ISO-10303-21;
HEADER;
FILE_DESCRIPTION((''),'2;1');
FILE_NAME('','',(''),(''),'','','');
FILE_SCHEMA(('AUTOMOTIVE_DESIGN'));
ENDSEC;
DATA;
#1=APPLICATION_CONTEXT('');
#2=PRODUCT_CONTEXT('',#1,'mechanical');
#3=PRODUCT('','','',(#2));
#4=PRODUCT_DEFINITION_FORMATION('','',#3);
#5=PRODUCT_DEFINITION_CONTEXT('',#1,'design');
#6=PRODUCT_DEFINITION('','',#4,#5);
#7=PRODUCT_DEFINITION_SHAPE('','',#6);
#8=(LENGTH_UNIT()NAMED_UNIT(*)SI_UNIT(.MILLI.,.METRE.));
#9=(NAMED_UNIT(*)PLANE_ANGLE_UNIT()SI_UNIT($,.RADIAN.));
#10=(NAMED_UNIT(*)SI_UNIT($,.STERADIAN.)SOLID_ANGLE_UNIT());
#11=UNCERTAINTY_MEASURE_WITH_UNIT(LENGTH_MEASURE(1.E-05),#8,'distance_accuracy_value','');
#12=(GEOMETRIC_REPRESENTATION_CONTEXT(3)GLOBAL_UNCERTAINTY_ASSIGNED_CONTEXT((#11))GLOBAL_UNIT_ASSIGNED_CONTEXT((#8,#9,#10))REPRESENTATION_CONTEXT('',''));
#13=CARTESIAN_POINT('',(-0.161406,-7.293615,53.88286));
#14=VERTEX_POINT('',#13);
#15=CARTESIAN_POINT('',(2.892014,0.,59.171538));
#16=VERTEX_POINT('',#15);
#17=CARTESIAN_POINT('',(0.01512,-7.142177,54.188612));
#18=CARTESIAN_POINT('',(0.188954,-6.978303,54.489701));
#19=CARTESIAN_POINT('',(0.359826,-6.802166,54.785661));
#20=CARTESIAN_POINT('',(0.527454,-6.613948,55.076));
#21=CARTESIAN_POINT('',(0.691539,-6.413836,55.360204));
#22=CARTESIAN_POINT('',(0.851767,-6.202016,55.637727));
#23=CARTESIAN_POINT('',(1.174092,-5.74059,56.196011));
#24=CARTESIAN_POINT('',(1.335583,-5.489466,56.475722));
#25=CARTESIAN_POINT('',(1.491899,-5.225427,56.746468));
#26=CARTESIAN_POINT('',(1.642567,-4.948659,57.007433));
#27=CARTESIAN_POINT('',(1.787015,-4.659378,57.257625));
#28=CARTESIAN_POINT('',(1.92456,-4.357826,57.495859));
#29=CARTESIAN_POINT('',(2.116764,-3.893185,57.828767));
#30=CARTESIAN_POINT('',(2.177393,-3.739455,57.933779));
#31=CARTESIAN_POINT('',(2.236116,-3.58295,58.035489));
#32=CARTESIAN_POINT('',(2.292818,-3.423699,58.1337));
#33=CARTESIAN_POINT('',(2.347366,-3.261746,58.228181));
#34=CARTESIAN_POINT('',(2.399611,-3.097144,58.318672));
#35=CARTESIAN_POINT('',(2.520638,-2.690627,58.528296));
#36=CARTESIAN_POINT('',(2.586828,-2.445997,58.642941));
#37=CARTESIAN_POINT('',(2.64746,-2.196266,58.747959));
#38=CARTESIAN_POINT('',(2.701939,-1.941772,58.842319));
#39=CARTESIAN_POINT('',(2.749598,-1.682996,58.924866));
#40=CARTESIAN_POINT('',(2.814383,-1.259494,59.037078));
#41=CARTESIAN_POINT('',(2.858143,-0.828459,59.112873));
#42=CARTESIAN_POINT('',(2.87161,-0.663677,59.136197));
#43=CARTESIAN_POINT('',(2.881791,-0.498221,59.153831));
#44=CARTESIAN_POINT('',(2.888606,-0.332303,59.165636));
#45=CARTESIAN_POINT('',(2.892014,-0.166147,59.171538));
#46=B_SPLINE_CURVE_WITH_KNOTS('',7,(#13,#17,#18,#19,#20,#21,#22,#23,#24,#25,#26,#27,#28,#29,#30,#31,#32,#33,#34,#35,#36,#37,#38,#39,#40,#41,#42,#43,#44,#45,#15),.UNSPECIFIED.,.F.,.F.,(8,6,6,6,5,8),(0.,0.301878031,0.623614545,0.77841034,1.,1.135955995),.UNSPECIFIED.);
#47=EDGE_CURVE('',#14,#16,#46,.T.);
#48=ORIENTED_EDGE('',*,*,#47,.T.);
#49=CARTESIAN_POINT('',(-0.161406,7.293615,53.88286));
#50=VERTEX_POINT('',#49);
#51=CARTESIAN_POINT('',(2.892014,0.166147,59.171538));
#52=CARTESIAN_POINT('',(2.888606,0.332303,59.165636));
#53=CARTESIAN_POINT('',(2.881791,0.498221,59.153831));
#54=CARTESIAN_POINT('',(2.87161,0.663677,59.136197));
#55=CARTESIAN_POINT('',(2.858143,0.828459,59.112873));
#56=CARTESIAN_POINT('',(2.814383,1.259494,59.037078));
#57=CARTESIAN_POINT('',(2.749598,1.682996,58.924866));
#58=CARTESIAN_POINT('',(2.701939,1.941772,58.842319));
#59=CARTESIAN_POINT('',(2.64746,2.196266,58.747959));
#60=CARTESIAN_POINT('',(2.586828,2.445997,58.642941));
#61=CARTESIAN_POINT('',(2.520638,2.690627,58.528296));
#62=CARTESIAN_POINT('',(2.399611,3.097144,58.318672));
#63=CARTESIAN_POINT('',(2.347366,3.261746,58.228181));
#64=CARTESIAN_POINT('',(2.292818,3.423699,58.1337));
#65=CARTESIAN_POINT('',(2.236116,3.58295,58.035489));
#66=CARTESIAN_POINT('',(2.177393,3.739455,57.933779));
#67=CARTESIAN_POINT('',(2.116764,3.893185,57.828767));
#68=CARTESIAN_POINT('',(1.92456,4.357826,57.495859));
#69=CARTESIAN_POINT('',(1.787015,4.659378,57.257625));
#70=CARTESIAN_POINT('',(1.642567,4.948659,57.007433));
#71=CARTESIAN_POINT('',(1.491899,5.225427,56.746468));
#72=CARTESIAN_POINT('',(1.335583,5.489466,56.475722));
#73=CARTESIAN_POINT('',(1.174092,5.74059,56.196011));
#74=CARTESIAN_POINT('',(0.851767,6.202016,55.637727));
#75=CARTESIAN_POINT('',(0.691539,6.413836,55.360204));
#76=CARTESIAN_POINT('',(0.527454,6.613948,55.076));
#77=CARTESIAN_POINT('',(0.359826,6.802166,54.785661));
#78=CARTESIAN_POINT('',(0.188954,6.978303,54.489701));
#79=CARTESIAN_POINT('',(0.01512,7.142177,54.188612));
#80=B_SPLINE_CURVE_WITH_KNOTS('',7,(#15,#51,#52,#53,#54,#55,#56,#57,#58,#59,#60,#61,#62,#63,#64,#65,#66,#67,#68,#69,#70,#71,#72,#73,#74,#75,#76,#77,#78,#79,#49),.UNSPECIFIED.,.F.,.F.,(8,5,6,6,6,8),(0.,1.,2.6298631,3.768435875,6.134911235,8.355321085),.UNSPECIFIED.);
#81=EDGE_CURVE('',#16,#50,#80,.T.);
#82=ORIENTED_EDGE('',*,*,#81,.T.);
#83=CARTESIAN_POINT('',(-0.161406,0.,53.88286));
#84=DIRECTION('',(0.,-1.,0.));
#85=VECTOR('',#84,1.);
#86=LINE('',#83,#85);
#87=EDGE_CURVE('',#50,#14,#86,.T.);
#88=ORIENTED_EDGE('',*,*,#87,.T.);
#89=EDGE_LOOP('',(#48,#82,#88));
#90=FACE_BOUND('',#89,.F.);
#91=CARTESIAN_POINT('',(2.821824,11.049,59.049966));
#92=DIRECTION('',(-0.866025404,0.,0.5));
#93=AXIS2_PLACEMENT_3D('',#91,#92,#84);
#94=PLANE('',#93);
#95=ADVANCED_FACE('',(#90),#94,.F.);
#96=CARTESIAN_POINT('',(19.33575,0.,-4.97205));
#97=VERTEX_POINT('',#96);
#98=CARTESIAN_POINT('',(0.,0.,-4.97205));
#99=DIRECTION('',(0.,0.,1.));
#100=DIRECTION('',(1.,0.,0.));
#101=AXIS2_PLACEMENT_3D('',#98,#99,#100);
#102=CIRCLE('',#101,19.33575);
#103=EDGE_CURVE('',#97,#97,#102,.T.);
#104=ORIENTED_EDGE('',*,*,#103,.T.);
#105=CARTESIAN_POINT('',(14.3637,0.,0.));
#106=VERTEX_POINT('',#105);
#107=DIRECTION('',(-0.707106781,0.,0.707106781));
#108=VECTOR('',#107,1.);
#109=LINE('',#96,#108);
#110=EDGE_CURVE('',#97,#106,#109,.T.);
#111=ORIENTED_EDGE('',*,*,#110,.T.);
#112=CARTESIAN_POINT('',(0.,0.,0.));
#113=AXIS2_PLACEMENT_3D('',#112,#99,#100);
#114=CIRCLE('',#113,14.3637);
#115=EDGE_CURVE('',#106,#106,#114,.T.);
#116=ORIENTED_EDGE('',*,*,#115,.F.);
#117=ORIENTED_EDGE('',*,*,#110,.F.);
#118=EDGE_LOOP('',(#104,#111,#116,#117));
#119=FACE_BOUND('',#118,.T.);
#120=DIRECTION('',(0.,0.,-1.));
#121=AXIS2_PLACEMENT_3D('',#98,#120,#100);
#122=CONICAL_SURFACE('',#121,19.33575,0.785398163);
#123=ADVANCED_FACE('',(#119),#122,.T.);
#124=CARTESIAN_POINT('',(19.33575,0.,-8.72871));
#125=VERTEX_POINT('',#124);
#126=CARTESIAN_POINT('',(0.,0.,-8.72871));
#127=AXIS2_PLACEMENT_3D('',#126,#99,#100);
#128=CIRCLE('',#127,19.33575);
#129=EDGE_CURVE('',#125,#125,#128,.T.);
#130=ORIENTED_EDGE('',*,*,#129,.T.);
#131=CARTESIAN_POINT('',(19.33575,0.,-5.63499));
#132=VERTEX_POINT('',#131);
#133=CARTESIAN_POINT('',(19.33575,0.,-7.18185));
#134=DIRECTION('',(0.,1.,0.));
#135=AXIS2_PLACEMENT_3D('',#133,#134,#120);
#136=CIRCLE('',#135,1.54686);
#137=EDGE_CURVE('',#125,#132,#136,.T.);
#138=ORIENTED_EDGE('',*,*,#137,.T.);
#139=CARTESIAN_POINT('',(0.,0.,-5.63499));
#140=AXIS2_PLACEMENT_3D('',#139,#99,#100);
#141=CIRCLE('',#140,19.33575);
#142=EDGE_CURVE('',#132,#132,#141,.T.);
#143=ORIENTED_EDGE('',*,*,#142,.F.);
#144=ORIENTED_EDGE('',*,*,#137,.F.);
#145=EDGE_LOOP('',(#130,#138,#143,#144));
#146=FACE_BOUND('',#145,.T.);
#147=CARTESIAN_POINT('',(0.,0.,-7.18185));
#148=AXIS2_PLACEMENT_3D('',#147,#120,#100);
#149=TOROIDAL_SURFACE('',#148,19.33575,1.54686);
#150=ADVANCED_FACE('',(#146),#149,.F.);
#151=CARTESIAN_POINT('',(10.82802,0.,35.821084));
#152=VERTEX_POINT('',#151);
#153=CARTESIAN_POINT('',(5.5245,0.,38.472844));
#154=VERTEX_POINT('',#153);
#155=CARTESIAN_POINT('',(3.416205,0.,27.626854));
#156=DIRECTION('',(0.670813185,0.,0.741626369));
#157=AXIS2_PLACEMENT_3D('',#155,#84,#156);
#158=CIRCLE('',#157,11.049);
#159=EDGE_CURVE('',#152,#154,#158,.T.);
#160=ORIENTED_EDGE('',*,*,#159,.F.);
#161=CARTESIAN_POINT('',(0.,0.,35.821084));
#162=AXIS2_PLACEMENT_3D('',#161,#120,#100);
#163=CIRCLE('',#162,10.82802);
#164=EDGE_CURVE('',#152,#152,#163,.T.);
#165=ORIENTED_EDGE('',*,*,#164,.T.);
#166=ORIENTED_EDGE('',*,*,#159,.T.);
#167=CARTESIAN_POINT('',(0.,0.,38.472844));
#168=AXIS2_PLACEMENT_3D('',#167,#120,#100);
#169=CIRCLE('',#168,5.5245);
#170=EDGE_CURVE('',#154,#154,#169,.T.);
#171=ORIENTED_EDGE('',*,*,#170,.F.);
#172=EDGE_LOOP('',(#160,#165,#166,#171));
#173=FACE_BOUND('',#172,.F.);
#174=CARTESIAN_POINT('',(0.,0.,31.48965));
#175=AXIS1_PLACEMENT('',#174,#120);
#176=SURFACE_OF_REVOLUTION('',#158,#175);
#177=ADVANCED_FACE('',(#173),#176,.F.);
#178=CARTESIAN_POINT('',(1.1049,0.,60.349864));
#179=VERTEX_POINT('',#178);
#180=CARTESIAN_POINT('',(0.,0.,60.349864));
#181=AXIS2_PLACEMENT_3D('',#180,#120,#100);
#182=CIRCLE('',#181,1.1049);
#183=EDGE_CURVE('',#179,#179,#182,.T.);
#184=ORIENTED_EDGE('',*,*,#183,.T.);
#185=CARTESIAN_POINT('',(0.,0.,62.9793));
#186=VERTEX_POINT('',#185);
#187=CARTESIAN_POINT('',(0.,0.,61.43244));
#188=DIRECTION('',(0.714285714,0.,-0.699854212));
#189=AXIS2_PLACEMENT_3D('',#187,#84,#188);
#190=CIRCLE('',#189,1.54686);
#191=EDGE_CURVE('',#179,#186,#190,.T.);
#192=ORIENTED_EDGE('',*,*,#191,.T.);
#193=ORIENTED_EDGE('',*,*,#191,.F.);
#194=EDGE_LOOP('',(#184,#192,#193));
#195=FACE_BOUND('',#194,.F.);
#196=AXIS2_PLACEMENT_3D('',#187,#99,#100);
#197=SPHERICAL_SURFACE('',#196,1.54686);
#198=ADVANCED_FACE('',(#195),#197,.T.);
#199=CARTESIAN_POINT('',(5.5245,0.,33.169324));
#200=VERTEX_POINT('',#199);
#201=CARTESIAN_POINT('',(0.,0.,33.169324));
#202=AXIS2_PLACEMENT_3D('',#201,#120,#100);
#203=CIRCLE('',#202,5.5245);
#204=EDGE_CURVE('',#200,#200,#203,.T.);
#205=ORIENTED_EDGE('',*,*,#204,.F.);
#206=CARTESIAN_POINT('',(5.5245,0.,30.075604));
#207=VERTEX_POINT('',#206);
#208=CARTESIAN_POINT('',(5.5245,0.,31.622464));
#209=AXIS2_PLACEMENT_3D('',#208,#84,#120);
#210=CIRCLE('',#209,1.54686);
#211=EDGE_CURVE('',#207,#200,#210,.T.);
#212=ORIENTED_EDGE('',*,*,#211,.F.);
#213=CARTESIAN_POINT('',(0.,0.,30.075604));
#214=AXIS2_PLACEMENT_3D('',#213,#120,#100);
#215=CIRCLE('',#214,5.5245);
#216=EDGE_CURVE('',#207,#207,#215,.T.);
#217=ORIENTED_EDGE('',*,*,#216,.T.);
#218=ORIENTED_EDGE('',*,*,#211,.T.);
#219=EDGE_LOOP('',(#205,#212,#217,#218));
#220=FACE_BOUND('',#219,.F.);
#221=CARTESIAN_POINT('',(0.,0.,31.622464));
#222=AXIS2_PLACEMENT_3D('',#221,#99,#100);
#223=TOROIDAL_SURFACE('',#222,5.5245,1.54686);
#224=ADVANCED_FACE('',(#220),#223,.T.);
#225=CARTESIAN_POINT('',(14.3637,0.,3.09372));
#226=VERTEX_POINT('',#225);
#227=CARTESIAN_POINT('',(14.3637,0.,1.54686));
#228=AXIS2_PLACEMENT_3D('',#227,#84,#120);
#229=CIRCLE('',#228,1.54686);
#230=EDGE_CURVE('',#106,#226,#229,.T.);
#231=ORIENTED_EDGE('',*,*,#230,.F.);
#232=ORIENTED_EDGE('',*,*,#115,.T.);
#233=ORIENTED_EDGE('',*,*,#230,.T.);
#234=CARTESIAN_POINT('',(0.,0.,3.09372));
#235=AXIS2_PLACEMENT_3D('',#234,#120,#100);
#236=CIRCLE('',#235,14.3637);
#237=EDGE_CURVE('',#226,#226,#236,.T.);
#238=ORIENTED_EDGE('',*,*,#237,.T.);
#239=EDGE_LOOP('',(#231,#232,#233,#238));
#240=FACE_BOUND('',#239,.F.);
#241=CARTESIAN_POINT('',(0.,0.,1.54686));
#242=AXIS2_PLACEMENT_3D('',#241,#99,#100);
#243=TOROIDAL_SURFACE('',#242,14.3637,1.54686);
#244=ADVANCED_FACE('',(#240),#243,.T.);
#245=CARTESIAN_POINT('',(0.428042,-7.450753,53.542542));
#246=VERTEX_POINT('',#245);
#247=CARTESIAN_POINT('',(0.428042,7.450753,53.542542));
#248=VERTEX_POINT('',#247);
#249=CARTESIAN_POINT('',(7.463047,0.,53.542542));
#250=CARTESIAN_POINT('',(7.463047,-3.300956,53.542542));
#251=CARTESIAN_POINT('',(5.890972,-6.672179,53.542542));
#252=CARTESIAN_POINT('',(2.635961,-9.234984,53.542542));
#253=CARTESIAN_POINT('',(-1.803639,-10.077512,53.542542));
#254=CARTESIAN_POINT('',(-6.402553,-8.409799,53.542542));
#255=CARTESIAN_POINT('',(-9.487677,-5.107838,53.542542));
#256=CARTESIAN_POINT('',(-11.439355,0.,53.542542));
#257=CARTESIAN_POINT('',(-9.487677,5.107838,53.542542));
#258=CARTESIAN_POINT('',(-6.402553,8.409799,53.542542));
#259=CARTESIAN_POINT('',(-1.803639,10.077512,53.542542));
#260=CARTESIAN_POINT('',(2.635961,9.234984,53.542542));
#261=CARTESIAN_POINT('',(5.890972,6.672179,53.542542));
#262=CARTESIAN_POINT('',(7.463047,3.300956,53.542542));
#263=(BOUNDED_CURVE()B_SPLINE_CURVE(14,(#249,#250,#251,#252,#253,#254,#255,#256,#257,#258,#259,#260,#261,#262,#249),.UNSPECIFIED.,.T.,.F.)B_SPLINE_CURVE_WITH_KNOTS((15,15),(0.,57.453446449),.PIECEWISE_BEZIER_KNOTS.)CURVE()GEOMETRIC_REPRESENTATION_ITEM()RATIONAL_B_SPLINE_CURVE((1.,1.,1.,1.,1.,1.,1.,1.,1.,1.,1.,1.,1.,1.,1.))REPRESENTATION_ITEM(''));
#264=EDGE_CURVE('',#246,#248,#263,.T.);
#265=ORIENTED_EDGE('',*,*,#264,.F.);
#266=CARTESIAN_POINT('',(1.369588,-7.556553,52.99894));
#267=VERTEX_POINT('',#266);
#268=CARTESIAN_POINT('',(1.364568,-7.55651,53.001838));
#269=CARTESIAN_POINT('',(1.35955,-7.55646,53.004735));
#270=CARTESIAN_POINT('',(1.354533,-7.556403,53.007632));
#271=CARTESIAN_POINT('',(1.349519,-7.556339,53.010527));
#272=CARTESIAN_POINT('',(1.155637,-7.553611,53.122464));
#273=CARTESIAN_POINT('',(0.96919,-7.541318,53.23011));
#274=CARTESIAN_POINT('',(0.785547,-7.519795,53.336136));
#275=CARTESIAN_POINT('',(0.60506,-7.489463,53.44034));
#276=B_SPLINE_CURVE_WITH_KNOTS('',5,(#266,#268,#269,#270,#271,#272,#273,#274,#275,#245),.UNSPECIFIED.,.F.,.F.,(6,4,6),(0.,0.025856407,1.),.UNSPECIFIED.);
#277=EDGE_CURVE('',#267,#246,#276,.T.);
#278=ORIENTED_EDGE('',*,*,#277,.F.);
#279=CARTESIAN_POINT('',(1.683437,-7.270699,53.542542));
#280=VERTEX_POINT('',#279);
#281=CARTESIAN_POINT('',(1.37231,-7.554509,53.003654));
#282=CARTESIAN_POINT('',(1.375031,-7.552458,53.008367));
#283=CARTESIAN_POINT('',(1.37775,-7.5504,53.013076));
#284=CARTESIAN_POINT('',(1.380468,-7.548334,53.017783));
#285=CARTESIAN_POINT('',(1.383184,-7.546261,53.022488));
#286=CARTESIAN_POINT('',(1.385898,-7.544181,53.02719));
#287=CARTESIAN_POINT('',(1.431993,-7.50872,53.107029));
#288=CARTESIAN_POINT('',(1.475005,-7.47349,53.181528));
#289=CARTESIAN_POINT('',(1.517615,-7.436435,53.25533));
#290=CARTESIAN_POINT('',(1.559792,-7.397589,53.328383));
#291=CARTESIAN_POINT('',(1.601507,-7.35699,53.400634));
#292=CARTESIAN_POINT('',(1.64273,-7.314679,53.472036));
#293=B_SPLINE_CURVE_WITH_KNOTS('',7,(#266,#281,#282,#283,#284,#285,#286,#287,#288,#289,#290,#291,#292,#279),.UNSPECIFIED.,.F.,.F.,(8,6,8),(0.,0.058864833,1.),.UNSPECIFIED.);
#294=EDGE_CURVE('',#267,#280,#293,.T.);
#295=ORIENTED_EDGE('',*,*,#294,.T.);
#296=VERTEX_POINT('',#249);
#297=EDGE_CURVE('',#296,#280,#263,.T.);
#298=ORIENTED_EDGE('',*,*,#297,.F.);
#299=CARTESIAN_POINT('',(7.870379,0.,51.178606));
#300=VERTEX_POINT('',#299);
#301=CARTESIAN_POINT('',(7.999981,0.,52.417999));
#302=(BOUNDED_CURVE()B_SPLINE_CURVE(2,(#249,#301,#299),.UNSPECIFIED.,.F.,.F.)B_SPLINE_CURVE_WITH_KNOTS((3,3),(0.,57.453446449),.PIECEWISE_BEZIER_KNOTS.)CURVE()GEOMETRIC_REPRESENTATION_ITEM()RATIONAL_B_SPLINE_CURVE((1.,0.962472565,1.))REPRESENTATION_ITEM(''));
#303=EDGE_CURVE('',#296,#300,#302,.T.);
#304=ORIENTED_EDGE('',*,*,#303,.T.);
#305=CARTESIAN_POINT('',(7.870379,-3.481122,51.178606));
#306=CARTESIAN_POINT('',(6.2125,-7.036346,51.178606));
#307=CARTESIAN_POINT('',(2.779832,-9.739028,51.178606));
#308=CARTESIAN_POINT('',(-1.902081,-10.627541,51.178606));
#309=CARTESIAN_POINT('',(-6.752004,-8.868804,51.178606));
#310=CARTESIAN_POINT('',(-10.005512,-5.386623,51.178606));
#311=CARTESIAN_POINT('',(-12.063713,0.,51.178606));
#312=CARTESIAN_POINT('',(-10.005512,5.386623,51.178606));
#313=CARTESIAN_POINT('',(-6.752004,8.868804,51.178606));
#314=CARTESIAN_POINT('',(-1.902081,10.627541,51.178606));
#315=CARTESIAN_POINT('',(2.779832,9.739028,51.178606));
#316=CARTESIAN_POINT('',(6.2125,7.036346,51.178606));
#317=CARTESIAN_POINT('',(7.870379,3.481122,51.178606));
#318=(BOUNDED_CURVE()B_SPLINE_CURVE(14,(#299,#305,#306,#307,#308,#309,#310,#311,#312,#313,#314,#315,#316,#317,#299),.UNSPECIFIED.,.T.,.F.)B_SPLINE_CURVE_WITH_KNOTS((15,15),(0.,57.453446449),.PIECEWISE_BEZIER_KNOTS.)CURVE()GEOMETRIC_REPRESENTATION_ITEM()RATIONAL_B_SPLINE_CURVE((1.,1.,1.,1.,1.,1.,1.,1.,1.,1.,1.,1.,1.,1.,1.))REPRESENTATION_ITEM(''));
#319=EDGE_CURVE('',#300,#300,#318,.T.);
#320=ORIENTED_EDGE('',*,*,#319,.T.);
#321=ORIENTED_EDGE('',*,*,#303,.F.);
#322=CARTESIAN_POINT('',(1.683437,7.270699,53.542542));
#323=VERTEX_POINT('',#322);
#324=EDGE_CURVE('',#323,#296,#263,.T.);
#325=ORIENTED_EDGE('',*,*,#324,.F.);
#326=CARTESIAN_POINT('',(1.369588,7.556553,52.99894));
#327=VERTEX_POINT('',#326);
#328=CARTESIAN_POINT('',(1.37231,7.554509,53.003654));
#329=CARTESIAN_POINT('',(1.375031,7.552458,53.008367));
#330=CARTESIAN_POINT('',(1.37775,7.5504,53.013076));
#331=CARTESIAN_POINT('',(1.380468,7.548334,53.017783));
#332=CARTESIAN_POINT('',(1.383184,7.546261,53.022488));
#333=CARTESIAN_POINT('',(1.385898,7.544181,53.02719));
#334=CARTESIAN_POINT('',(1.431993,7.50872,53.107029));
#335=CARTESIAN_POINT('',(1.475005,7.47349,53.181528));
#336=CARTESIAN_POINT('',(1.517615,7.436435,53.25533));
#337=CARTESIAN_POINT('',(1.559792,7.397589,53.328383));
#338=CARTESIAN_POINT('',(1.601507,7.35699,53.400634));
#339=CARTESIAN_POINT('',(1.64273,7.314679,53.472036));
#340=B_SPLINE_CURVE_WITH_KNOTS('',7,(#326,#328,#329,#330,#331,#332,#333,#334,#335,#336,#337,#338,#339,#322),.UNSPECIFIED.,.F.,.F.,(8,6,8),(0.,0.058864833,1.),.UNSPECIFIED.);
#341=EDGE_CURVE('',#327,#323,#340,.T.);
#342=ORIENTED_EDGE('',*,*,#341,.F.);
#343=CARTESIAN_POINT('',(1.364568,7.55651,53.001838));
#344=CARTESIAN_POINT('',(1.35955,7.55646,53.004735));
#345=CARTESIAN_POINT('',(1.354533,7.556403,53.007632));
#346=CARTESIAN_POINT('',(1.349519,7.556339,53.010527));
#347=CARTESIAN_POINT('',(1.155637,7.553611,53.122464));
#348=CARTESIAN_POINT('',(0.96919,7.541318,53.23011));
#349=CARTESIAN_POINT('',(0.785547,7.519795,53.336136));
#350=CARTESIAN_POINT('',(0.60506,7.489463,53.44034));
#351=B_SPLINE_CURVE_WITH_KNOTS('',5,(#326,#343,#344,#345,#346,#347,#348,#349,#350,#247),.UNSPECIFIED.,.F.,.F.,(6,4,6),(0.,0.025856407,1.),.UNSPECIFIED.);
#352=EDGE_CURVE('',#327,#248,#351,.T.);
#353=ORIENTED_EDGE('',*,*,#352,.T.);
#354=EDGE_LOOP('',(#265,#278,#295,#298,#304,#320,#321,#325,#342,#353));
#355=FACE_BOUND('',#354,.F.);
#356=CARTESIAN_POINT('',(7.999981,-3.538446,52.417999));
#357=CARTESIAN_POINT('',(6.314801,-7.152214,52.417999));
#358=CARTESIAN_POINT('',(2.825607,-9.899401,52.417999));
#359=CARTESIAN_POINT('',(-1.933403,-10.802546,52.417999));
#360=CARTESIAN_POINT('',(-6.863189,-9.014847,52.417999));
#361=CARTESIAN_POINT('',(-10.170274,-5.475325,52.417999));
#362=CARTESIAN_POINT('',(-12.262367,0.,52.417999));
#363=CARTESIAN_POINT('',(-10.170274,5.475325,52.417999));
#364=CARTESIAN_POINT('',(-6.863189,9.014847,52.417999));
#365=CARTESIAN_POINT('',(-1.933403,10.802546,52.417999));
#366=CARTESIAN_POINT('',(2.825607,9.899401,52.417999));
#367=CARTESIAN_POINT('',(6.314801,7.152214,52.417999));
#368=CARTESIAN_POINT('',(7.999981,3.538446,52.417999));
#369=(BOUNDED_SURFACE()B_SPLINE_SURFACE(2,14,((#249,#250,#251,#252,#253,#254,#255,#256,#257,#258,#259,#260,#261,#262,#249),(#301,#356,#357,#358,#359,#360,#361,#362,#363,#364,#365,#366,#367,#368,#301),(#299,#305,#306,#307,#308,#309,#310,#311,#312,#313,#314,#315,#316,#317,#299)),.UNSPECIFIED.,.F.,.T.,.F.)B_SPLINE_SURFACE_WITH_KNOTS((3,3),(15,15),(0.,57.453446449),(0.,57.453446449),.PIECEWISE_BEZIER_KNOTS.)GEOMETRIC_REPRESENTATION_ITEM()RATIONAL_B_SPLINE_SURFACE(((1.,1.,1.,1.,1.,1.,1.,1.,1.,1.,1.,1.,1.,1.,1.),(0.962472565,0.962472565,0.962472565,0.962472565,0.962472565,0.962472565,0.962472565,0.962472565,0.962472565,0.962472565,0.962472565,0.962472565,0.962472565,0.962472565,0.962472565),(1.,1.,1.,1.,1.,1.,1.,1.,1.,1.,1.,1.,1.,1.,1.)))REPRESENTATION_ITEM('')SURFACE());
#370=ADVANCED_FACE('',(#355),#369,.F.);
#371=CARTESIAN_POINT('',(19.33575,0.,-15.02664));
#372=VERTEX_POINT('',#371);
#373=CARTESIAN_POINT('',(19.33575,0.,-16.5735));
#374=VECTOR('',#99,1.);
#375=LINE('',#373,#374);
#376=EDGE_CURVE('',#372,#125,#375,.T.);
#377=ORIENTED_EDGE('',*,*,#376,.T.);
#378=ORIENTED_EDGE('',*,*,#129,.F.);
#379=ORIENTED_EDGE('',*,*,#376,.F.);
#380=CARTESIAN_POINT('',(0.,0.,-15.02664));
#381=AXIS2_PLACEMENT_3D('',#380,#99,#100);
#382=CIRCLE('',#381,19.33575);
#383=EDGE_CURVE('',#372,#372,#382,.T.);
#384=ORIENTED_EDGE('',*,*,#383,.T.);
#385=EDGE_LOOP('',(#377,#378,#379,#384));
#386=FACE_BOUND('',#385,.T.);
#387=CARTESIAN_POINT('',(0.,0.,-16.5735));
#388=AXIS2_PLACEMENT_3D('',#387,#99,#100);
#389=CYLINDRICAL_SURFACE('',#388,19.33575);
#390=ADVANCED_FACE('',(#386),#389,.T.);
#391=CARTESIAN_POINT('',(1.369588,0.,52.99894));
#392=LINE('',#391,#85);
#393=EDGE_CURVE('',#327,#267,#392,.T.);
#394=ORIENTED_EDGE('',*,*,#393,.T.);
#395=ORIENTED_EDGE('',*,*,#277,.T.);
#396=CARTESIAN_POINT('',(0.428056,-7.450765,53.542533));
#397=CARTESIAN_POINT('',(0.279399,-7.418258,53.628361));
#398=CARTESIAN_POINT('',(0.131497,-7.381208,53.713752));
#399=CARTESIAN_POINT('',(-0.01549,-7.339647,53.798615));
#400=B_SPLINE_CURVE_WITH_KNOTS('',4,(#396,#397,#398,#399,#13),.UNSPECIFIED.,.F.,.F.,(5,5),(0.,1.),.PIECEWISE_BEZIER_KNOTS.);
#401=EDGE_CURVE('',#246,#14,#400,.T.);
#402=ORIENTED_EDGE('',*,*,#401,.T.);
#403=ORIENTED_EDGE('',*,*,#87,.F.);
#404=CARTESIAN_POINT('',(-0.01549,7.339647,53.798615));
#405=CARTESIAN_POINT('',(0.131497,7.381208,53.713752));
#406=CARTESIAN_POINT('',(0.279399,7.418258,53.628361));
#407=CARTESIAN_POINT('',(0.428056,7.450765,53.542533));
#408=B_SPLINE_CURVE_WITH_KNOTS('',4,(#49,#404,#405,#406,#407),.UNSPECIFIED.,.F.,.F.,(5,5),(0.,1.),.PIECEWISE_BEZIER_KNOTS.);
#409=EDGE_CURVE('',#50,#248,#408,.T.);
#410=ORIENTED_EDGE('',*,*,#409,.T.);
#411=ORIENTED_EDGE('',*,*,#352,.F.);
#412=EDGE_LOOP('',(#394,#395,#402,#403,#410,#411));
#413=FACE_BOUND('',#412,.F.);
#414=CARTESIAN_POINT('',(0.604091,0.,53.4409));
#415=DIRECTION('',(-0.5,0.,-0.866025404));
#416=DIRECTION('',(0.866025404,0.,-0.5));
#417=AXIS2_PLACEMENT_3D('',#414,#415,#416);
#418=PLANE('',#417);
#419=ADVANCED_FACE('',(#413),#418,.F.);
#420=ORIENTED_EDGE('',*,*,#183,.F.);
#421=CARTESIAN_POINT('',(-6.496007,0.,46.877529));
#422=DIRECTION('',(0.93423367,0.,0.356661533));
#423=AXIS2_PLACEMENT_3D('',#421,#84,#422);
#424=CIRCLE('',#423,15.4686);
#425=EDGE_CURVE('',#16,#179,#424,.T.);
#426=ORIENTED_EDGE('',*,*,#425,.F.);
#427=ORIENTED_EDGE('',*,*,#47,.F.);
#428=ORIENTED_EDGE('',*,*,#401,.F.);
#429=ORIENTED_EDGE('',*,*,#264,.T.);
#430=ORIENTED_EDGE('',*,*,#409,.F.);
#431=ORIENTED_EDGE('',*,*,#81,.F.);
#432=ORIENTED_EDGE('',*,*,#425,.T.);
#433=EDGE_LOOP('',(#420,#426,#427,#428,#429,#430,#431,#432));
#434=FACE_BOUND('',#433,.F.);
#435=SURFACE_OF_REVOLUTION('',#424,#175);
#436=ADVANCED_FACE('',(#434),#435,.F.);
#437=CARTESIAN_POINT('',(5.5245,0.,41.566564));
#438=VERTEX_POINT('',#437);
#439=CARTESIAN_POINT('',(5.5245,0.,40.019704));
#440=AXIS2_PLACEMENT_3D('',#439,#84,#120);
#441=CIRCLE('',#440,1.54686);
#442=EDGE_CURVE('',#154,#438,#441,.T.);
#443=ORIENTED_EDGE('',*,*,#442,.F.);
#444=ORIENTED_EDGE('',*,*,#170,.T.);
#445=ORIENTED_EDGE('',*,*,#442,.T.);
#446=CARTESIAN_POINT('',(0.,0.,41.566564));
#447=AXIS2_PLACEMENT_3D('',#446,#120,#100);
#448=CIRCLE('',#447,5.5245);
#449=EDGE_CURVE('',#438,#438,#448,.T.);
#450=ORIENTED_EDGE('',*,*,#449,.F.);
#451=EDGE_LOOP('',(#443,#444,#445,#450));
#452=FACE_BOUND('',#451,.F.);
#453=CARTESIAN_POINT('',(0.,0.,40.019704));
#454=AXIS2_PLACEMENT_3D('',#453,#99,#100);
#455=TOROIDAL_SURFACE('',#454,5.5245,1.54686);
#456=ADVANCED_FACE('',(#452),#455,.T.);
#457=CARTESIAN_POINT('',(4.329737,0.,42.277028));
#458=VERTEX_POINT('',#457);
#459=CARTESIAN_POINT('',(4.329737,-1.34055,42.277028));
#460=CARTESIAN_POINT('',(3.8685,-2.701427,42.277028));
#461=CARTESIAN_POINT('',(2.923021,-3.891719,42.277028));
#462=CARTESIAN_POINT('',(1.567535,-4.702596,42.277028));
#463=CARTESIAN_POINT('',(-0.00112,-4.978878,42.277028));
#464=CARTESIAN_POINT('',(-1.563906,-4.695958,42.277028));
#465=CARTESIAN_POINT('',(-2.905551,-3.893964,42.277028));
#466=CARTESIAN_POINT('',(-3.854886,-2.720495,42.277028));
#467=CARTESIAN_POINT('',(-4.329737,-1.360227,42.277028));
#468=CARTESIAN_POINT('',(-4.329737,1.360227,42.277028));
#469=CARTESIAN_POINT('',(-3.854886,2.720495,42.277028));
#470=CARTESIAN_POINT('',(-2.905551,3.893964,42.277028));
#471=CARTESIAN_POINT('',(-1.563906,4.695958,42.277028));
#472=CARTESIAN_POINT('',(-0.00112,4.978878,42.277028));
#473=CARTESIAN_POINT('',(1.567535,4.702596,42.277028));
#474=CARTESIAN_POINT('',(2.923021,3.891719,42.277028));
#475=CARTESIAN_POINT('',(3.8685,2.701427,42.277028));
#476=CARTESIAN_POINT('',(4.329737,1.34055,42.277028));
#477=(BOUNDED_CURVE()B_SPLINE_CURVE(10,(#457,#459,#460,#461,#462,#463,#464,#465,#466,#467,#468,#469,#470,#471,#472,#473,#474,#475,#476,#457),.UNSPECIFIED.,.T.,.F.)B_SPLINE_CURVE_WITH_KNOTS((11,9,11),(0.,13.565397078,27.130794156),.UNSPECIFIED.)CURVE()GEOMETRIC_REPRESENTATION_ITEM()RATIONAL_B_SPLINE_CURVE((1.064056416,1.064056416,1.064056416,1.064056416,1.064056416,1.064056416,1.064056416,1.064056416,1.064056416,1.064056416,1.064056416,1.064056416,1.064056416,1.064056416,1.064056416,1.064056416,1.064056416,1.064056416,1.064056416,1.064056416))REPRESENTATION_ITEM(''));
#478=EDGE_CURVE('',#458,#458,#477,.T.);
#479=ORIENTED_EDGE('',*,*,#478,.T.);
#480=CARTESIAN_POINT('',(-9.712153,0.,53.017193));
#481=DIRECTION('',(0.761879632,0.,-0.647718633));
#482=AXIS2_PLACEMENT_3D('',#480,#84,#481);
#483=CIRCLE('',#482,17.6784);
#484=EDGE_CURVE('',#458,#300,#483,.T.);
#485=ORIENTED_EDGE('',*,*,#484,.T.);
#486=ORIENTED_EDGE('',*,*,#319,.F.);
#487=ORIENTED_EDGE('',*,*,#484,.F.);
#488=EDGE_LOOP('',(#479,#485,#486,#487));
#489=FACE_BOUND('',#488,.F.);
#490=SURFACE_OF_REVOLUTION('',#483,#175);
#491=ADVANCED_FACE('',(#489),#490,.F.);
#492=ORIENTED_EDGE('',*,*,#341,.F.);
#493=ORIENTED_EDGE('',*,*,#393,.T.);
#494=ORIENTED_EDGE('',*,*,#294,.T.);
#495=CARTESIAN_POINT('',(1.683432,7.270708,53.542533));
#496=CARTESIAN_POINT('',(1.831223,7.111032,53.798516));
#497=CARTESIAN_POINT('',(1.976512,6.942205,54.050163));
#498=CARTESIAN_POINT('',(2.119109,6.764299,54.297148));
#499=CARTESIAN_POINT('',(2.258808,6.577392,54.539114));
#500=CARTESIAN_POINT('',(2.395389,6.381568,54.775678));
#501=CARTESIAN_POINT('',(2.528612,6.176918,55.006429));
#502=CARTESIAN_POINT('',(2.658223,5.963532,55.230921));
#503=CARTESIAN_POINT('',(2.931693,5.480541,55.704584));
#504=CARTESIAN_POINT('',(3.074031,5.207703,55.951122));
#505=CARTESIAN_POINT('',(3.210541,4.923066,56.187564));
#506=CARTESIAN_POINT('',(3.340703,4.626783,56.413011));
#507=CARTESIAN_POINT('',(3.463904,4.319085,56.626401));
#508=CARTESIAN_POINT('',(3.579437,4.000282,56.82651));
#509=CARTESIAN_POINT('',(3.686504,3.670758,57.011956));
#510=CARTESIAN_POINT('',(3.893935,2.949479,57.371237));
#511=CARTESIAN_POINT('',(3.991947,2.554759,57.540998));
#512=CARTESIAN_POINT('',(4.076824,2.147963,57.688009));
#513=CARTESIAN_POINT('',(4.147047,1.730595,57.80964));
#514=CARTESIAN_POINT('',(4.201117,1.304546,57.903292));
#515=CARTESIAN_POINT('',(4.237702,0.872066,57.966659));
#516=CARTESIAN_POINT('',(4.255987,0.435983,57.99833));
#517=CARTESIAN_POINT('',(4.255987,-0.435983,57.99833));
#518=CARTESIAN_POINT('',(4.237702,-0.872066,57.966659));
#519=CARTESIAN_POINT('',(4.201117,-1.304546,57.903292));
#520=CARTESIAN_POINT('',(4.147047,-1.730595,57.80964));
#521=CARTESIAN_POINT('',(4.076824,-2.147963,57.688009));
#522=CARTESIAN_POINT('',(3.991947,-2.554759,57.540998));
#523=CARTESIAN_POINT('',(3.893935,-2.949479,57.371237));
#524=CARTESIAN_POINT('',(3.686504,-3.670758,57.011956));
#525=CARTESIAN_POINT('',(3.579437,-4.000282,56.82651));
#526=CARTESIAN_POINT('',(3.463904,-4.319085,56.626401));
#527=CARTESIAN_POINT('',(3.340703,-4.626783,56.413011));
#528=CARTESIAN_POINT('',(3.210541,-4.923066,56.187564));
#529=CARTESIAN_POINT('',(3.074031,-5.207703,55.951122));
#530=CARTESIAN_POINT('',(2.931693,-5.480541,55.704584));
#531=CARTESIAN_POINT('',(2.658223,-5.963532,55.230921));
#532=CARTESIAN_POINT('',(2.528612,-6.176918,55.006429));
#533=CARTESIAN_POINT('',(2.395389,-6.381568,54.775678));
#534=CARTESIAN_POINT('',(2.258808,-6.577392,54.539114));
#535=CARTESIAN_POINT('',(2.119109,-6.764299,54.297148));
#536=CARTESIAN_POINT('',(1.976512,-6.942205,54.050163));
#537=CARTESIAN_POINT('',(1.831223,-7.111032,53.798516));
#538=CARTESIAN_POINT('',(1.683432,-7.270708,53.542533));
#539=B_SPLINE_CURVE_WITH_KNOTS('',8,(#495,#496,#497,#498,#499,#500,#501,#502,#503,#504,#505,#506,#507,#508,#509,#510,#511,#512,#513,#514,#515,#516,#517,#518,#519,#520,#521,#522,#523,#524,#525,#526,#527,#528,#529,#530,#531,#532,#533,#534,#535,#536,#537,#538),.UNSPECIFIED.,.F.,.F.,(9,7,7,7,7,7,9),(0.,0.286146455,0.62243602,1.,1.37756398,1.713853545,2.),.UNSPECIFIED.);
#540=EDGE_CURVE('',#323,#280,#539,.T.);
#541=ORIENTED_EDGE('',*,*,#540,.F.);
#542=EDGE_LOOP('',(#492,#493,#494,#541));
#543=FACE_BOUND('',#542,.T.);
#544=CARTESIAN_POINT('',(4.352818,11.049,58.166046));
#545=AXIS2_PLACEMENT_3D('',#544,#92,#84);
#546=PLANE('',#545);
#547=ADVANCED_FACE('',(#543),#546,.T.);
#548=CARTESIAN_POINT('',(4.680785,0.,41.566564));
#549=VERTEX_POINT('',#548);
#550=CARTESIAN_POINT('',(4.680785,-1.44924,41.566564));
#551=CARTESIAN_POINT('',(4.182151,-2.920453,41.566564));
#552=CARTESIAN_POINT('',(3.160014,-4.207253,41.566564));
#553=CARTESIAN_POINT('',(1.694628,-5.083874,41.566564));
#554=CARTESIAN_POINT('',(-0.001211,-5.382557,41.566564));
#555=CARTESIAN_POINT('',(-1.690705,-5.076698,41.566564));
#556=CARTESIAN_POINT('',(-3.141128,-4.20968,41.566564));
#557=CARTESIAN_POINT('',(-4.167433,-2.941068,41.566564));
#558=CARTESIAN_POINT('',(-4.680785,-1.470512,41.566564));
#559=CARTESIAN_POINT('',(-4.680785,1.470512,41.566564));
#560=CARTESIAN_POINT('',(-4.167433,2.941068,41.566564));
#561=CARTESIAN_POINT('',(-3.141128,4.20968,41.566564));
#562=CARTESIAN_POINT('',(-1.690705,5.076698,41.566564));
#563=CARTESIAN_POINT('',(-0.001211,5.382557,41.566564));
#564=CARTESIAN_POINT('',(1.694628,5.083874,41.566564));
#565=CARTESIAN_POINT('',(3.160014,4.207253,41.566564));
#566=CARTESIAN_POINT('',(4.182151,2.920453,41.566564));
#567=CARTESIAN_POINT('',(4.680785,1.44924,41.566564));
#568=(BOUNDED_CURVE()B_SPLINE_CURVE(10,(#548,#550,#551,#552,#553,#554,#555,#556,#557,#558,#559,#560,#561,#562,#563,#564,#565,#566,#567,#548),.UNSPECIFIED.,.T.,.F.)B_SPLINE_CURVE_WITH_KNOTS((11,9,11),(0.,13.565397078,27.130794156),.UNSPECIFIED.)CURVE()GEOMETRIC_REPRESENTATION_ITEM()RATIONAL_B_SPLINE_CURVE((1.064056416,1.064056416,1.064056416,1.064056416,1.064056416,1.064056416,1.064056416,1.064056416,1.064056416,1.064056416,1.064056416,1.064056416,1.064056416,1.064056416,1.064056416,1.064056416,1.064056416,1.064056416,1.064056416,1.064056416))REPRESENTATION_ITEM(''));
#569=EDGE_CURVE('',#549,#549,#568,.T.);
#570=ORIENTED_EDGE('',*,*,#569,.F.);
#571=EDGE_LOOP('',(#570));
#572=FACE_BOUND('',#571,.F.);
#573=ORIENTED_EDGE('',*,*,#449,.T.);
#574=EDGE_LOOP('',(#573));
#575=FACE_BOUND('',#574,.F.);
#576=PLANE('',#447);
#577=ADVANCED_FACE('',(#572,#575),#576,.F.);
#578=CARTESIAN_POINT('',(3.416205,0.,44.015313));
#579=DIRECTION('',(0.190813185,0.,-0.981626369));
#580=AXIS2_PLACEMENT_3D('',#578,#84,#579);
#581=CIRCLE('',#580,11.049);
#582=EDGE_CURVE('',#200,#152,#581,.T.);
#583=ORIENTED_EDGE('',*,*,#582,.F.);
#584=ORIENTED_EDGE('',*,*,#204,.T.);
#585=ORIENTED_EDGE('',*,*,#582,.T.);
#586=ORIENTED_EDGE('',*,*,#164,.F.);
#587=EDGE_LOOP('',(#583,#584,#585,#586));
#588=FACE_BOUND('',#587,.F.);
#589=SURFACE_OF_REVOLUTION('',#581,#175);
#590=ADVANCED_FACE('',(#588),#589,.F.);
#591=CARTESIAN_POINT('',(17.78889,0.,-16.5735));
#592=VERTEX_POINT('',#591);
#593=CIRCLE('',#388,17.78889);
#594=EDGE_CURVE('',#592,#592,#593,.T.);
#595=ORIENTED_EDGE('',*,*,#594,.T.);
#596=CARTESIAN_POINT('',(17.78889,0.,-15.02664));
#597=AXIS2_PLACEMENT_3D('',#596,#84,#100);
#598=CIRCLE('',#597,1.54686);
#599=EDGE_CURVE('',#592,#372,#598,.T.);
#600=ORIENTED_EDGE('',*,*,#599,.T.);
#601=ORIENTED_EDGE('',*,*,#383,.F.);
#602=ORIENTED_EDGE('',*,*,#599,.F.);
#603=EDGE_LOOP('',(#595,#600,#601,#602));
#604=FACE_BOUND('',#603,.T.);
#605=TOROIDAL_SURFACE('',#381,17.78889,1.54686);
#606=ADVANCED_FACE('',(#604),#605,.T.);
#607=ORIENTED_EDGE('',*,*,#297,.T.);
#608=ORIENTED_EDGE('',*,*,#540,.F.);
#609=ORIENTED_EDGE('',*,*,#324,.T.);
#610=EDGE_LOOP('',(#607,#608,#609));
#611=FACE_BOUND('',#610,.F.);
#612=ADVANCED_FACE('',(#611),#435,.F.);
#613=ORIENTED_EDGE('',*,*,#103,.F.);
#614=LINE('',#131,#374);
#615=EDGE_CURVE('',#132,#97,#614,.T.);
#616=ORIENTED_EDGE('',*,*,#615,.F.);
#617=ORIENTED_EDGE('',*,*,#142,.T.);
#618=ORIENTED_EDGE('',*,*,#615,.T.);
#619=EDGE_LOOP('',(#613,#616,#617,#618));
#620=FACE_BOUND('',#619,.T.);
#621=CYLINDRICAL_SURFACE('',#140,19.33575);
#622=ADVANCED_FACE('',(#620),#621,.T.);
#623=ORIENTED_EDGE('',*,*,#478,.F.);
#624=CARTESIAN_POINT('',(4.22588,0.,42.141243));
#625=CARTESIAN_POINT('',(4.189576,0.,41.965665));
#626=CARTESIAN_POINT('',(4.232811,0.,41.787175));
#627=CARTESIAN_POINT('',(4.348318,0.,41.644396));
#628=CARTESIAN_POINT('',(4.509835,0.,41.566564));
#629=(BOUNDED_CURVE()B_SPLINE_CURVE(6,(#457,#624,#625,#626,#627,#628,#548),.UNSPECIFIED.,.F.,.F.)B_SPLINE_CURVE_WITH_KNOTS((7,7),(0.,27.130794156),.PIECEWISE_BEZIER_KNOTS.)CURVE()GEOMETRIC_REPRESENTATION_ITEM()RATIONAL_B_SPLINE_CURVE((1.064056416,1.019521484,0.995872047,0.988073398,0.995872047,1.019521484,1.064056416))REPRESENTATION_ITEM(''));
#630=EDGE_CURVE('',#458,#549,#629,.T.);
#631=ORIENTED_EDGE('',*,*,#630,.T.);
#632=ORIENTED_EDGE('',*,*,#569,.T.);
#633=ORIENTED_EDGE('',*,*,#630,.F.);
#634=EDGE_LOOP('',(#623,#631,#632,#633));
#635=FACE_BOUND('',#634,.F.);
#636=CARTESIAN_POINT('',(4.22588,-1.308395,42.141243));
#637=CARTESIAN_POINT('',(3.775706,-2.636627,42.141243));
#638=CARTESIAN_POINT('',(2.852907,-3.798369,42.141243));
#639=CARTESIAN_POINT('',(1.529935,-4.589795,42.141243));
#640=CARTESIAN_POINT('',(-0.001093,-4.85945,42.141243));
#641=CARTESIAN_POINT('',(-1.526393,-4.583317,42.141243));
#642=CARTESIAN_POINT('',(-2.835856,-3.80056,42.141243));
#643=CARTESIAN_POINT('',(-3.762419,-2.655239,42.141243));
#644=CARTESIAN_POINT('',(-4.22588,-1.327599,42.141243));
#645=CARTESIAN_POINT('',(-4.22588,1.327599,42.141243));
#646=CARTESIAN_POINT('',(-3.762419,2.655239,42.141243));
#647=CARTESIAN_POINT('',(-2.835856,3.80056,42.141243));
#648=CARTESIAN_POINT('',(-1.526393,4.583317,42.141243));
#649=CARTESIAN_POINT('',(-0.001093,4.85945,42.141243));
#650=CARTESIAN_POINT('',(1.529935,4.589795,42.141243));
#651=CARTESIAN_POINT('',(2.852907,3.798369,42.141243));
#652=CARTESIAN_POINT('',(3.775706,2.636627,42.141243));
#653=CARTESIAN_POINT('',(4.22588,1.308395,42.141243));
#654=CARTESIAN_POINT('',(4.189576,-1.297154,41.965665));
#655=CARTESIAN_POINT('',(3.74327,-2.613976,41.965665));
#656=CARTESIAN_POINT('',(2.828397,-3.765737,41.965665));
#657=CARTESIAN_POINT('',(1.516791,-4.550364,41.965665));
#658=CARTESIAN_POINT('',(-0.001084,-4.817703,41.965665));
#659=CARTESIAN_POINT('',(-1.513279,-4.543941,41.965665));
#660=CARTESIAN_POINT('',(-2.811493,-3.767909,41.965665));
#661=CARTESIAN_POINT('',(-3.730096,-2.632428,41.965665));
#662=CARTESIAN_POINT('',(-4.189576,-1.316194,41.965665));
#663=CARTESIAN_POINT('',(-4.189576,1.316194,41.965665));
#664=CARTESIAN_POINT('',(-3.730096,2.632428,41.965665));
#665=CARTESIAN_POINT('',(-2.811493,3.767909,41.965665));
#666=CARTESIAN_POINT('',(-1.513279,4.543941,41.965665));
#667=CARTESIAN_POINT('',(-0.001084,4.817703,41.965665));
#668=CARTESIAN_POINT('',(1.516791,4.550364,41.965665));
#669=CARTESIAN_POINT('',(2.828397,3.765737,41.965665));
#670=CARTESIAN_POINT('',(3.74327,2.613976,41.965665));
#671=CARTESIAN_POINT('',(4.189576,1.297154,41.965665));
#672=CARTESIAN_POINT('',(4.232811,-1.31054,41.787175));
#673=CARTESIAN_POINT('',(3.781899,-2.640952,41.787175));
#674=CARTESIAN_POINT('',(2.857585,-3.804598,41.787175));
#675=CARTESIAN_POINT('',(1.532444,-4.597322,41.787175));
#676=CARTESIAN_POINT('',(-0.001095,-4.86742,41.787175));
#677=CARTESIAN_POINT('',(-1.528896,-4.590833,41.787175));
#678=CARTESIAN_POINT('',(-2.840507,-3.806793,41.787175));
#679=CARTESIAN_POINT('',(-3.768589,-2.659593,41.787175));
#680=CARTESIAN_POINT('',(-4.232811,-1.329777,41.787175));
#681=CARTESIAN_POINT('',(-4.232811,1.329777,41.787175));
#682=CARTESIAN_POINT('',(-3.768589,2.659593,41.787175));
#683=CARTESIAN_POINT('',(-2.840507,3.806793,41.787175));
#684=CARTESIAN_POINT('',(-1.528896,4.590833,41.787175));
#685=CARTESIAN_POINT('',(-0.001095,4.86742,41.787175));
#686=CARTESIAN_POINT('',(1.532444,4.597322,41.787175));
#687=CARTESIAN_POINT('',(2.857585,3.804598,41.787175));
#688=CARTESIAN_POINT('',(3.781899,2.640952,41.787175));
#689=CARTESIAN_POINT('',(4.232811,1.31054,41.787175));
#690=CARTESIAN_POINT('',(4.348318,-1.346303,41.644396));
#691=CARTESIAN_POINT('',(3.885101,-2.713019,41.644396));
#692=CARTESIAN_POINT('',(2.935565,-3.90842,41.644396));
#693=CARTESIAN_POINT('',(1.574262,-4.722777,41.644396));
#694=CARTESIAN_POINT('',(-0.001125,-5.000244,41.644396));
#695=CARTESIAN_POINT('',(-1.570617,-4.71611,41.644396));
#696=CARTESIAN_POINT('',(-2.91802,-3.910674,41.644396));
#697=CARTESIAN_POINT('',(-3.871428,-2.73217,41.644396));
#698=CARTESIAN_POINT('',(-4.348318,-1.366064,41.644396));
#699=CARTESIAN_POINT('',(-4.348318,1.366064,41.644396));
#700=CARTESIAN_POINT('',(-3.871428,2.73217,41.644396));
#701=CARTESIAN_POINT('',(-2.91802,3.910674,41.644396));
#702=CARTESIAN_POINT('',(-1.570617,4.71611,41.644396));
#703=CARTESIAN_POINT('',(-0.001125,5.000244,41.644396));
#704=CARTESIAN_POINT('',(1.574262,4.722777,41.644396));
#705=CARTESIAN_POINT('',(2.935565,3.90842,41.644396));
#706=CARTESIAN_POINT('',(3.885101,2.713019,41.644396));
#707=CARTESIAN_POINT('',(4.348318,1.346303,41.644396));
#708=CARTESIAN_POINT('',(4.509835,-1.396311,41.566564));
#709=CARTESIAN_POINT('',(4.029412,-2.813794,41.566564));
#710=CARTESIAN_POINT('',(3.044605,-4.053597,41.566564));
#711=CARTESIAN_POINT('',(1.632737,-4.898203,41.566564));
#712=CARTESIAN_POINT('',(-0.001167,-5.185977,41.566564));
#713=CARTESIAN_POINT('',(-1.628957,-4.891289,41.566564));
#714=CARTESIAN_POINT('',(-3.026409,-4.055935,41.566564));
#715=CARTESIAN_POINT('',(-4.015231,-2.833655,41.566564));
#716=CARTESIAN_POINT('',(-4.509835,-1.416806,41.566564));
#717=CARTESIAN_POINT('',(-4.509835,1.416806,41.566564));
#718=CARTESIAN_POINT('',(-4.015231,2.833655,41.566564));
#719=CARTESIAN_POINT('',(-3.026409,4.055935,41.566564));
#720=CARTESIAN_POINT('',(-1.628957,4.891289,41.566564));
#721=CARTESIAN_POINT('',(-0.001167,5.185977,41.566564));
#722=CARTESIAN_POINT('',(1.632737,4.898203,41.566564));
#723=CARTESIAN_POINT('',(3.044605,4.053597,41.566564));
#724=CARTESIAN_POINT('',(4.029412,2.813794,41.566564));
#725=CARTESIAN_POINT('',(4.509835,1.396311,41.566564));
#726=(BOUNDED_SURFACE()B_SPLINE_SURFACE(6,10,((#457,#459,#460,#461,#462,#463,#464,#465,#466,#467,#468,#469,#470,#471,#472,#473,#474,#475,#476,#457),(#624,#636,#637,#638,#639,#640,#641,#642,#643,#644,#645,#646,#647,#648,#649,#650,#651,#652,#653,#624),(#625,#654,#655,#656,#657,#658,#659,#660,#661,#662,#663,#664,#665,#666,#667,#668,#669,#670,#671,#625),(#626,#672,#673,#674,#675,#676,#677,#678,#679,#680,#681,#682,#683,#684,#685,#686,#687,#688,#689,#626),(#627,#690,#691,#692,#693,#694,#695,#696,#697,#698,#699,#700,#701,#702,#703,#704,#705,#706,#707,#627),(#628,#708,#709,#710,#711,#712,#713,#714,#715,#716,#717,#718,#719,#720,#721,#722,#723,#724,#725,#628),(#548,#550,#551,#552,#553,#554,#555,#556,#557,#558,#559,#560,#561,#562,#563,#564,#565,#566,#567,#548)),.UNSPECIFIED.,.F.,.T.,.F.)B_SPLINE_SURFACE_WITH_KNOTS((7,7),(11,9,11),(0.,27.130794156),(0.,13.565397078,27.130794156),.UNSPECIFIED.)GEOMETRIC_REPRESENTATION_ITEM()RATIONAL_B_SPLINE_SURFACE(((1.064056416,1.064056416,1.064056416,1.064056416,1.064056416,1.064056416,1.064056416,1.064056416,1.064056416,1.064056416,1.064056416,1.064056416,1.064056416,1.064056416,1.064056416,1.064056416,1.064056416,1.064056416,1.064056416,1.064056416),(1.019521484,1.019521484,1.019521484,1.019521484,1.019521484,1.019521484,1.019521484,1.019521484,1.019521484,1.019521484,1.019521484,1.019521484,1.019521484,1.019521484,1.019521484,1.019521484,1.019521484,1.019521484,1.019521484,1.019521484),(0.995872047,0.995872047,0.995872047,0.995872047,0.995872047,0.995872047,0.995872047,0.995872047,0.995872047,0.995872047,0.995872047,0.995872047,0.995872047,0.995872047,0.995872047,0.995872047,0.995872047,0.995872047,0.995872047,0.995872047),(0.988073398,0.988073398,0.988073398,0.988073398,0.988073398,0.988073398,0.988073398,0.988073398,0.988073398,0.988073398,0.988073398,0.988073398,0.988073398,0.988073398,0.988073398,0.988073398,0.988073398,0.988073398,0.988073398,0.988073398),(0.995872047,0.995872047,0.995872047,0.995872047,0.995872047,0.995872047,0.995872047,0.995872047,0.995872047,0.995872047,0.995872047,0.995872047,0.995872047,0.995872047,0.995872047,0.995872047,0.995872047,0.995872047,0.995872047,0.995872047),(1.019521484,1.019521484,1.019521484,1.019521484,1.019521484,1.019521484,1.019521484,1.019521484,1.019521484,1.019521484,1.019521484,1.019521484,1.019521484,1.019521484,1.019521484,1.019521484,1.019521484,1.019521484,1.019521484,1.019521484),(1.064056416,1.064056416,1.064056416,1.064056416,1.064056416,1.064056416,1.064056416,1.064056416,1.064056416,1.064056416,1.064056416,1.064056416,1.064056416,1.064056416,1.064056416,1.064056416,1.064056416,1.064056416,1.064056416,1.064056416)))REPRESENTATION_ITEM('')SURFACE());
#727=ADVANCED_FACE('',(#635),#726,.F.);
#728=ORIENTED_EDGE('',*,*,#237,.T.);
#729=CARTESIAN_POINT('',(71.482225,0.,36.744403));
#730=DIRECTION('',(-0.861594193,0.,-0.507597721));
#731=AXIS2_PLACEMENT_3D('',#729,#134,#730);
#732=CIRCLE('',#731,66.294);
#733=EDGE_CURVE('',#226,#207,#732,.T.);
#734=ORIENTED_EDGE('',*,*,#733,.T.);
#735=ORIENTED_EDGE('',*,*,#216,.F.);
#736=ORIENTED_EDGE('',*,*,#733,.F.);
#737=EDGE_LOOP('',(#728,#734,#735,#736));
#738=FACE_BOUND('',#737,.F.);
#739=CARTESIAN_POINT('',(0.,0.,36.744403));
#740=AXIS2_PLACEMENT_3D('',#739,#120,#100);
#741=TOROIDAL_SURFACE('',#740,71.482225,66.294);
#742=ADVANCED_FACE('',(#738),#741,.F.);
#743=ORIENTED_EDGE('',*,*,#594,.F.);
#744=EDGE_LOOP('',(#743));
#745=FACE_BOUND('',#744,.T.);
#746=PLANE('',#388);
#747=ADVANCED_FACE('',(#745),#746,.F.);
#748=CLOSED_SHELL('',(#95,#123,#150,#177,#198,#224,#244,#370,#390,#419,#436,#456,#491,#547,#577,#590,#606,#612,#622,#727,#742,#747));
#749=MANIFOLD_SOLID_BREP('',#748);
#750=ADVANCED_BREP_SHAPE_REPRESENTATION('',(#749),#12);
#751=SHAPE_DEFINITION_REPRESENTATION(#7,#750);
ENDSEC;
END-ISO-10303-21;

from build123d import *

# Parameters (mm, degrees)
F2_R          = 1.778
F5_R          = 5.08
F6_R          = 0.508
F8_W          = 2.032
F8_H          = 25.4
F9_DEPTH      = 2.54
F9_DEPTH_BACK = 6.858
F10_SCALE     = 0.87


with BuildPart() as f1:
    # F0 (on Front) → F1 (revolve)
    with BuildSketch(Plane.XZ):
        with BuildLine():
            Line((16.51, 0), (0, 0))
            Line((0, 0), (0, -19.05))
            Line((0, -19.05), (22.225, -19.05))
            Line((22.225, -19.05), (22.225, -10.033))
            ThreePointArc((22.225, -10.033), (20.447, -8.255), (22.225, -6.477))
            Line((22.225, -6.477), (22.225, -5.715))
            Line((22.225, -5.715), (16.51, 0))
        make_face()
    revolve(axis=Axis((0, 0, -9.525), (0, 0, 1)))

    # F2
    f2_edges = [f1.edges().sort_by_distance(p)[0] for p in [
        (-22.225, 0, -19.05),
    ]]
    fillet(f2_edges, radius=F2_R)

    # F3 (on Front) → F4 (revolve)
    with BuildSketch(Plane.XZ):
        with BuildLine():
            ThreePointArc((1.27, 69.3676592107), (1.6391647146, 71.3007837384), (0, 72.39))
            Line((0, 72.39), (0, 0))
            Line((0, 0), (16.51, 0))
            ThreePointArc((16.51, 0), (18.288, 1.778), (16.51, 3.556))
            ThreePointArc((16.51, 3.556), (9.7501734489, 18.5125224764), (6.35, 34.5696592107))
            ThreePointArc((6.35, 34.5696592107), (8.128, 36.3476592107), (6.35, 38.1256592107))
            ThreePointArc((6.35, 38.1256592107), (9.6062852188, 39.2330887731), (12.446, 41.1736592107))
            ThreePointArc((12.446, 41.1736592107), (9.6062852188, 43.1142296483), (6.35, 44.2216592107))
            ThreePointArc((6.35, 44.2216592107), (8.128, 45.9996592107), (6.35, 47.7776592107))
            Line((6.35, 47.7776592107), (4.318, 47.7776592107))
            ThreePointArc((4.318, 47.7776592107), (7.7821876852, 53.5930558225), (9.144, 60.2236592107))
            ThreePointArc((9.144, 60.2236592107), (6.0064546496, 65.4840784923), (1.27, 69.3676592107))
        make_face()
    revolve(axis=Axis((0, 0, 36.195), (0, 0, -1)))

    # F5
    f5_edges = [f1.edges().sort_by_distance(p)[0] for p in [
        (-9.144, 0, 60.223659),
    ]]
    fillet(f5_edges, radius=F5_R)

    # F6
    f6_edges = [f1.edges().sort_by_distance(p)[0] for p in [
        (-4.318, 0, 47.777659),
    ]]
    fillet(f6_edges, radius=F6_R)

    # F8 (on line) → F9 (cut, two sides)
    with BuildSketch(Plane(origin=(30.2009668014, 0, 52.3096089378), x_dir=(0.8660254038, 0, -0.5), z_dir=(-0.5, 0, -0.8660254038))) as f9_sk:
        with Locations((-30.1118296053, 0)):
            Rectangle(F8_W, F8_H)
    extrude(amount=-F9_DEPTH, mode=Mode.SUBTRACT)
    extrude(f9_sk.sketch, amount=F9_DEPTH_BACK, mode=Mode.SUBTRACT)


with BuildPart() as f1_1:
    # F10: moved
    add(f1.part.scale(F10_SCALE))


solid = f1_1.part
